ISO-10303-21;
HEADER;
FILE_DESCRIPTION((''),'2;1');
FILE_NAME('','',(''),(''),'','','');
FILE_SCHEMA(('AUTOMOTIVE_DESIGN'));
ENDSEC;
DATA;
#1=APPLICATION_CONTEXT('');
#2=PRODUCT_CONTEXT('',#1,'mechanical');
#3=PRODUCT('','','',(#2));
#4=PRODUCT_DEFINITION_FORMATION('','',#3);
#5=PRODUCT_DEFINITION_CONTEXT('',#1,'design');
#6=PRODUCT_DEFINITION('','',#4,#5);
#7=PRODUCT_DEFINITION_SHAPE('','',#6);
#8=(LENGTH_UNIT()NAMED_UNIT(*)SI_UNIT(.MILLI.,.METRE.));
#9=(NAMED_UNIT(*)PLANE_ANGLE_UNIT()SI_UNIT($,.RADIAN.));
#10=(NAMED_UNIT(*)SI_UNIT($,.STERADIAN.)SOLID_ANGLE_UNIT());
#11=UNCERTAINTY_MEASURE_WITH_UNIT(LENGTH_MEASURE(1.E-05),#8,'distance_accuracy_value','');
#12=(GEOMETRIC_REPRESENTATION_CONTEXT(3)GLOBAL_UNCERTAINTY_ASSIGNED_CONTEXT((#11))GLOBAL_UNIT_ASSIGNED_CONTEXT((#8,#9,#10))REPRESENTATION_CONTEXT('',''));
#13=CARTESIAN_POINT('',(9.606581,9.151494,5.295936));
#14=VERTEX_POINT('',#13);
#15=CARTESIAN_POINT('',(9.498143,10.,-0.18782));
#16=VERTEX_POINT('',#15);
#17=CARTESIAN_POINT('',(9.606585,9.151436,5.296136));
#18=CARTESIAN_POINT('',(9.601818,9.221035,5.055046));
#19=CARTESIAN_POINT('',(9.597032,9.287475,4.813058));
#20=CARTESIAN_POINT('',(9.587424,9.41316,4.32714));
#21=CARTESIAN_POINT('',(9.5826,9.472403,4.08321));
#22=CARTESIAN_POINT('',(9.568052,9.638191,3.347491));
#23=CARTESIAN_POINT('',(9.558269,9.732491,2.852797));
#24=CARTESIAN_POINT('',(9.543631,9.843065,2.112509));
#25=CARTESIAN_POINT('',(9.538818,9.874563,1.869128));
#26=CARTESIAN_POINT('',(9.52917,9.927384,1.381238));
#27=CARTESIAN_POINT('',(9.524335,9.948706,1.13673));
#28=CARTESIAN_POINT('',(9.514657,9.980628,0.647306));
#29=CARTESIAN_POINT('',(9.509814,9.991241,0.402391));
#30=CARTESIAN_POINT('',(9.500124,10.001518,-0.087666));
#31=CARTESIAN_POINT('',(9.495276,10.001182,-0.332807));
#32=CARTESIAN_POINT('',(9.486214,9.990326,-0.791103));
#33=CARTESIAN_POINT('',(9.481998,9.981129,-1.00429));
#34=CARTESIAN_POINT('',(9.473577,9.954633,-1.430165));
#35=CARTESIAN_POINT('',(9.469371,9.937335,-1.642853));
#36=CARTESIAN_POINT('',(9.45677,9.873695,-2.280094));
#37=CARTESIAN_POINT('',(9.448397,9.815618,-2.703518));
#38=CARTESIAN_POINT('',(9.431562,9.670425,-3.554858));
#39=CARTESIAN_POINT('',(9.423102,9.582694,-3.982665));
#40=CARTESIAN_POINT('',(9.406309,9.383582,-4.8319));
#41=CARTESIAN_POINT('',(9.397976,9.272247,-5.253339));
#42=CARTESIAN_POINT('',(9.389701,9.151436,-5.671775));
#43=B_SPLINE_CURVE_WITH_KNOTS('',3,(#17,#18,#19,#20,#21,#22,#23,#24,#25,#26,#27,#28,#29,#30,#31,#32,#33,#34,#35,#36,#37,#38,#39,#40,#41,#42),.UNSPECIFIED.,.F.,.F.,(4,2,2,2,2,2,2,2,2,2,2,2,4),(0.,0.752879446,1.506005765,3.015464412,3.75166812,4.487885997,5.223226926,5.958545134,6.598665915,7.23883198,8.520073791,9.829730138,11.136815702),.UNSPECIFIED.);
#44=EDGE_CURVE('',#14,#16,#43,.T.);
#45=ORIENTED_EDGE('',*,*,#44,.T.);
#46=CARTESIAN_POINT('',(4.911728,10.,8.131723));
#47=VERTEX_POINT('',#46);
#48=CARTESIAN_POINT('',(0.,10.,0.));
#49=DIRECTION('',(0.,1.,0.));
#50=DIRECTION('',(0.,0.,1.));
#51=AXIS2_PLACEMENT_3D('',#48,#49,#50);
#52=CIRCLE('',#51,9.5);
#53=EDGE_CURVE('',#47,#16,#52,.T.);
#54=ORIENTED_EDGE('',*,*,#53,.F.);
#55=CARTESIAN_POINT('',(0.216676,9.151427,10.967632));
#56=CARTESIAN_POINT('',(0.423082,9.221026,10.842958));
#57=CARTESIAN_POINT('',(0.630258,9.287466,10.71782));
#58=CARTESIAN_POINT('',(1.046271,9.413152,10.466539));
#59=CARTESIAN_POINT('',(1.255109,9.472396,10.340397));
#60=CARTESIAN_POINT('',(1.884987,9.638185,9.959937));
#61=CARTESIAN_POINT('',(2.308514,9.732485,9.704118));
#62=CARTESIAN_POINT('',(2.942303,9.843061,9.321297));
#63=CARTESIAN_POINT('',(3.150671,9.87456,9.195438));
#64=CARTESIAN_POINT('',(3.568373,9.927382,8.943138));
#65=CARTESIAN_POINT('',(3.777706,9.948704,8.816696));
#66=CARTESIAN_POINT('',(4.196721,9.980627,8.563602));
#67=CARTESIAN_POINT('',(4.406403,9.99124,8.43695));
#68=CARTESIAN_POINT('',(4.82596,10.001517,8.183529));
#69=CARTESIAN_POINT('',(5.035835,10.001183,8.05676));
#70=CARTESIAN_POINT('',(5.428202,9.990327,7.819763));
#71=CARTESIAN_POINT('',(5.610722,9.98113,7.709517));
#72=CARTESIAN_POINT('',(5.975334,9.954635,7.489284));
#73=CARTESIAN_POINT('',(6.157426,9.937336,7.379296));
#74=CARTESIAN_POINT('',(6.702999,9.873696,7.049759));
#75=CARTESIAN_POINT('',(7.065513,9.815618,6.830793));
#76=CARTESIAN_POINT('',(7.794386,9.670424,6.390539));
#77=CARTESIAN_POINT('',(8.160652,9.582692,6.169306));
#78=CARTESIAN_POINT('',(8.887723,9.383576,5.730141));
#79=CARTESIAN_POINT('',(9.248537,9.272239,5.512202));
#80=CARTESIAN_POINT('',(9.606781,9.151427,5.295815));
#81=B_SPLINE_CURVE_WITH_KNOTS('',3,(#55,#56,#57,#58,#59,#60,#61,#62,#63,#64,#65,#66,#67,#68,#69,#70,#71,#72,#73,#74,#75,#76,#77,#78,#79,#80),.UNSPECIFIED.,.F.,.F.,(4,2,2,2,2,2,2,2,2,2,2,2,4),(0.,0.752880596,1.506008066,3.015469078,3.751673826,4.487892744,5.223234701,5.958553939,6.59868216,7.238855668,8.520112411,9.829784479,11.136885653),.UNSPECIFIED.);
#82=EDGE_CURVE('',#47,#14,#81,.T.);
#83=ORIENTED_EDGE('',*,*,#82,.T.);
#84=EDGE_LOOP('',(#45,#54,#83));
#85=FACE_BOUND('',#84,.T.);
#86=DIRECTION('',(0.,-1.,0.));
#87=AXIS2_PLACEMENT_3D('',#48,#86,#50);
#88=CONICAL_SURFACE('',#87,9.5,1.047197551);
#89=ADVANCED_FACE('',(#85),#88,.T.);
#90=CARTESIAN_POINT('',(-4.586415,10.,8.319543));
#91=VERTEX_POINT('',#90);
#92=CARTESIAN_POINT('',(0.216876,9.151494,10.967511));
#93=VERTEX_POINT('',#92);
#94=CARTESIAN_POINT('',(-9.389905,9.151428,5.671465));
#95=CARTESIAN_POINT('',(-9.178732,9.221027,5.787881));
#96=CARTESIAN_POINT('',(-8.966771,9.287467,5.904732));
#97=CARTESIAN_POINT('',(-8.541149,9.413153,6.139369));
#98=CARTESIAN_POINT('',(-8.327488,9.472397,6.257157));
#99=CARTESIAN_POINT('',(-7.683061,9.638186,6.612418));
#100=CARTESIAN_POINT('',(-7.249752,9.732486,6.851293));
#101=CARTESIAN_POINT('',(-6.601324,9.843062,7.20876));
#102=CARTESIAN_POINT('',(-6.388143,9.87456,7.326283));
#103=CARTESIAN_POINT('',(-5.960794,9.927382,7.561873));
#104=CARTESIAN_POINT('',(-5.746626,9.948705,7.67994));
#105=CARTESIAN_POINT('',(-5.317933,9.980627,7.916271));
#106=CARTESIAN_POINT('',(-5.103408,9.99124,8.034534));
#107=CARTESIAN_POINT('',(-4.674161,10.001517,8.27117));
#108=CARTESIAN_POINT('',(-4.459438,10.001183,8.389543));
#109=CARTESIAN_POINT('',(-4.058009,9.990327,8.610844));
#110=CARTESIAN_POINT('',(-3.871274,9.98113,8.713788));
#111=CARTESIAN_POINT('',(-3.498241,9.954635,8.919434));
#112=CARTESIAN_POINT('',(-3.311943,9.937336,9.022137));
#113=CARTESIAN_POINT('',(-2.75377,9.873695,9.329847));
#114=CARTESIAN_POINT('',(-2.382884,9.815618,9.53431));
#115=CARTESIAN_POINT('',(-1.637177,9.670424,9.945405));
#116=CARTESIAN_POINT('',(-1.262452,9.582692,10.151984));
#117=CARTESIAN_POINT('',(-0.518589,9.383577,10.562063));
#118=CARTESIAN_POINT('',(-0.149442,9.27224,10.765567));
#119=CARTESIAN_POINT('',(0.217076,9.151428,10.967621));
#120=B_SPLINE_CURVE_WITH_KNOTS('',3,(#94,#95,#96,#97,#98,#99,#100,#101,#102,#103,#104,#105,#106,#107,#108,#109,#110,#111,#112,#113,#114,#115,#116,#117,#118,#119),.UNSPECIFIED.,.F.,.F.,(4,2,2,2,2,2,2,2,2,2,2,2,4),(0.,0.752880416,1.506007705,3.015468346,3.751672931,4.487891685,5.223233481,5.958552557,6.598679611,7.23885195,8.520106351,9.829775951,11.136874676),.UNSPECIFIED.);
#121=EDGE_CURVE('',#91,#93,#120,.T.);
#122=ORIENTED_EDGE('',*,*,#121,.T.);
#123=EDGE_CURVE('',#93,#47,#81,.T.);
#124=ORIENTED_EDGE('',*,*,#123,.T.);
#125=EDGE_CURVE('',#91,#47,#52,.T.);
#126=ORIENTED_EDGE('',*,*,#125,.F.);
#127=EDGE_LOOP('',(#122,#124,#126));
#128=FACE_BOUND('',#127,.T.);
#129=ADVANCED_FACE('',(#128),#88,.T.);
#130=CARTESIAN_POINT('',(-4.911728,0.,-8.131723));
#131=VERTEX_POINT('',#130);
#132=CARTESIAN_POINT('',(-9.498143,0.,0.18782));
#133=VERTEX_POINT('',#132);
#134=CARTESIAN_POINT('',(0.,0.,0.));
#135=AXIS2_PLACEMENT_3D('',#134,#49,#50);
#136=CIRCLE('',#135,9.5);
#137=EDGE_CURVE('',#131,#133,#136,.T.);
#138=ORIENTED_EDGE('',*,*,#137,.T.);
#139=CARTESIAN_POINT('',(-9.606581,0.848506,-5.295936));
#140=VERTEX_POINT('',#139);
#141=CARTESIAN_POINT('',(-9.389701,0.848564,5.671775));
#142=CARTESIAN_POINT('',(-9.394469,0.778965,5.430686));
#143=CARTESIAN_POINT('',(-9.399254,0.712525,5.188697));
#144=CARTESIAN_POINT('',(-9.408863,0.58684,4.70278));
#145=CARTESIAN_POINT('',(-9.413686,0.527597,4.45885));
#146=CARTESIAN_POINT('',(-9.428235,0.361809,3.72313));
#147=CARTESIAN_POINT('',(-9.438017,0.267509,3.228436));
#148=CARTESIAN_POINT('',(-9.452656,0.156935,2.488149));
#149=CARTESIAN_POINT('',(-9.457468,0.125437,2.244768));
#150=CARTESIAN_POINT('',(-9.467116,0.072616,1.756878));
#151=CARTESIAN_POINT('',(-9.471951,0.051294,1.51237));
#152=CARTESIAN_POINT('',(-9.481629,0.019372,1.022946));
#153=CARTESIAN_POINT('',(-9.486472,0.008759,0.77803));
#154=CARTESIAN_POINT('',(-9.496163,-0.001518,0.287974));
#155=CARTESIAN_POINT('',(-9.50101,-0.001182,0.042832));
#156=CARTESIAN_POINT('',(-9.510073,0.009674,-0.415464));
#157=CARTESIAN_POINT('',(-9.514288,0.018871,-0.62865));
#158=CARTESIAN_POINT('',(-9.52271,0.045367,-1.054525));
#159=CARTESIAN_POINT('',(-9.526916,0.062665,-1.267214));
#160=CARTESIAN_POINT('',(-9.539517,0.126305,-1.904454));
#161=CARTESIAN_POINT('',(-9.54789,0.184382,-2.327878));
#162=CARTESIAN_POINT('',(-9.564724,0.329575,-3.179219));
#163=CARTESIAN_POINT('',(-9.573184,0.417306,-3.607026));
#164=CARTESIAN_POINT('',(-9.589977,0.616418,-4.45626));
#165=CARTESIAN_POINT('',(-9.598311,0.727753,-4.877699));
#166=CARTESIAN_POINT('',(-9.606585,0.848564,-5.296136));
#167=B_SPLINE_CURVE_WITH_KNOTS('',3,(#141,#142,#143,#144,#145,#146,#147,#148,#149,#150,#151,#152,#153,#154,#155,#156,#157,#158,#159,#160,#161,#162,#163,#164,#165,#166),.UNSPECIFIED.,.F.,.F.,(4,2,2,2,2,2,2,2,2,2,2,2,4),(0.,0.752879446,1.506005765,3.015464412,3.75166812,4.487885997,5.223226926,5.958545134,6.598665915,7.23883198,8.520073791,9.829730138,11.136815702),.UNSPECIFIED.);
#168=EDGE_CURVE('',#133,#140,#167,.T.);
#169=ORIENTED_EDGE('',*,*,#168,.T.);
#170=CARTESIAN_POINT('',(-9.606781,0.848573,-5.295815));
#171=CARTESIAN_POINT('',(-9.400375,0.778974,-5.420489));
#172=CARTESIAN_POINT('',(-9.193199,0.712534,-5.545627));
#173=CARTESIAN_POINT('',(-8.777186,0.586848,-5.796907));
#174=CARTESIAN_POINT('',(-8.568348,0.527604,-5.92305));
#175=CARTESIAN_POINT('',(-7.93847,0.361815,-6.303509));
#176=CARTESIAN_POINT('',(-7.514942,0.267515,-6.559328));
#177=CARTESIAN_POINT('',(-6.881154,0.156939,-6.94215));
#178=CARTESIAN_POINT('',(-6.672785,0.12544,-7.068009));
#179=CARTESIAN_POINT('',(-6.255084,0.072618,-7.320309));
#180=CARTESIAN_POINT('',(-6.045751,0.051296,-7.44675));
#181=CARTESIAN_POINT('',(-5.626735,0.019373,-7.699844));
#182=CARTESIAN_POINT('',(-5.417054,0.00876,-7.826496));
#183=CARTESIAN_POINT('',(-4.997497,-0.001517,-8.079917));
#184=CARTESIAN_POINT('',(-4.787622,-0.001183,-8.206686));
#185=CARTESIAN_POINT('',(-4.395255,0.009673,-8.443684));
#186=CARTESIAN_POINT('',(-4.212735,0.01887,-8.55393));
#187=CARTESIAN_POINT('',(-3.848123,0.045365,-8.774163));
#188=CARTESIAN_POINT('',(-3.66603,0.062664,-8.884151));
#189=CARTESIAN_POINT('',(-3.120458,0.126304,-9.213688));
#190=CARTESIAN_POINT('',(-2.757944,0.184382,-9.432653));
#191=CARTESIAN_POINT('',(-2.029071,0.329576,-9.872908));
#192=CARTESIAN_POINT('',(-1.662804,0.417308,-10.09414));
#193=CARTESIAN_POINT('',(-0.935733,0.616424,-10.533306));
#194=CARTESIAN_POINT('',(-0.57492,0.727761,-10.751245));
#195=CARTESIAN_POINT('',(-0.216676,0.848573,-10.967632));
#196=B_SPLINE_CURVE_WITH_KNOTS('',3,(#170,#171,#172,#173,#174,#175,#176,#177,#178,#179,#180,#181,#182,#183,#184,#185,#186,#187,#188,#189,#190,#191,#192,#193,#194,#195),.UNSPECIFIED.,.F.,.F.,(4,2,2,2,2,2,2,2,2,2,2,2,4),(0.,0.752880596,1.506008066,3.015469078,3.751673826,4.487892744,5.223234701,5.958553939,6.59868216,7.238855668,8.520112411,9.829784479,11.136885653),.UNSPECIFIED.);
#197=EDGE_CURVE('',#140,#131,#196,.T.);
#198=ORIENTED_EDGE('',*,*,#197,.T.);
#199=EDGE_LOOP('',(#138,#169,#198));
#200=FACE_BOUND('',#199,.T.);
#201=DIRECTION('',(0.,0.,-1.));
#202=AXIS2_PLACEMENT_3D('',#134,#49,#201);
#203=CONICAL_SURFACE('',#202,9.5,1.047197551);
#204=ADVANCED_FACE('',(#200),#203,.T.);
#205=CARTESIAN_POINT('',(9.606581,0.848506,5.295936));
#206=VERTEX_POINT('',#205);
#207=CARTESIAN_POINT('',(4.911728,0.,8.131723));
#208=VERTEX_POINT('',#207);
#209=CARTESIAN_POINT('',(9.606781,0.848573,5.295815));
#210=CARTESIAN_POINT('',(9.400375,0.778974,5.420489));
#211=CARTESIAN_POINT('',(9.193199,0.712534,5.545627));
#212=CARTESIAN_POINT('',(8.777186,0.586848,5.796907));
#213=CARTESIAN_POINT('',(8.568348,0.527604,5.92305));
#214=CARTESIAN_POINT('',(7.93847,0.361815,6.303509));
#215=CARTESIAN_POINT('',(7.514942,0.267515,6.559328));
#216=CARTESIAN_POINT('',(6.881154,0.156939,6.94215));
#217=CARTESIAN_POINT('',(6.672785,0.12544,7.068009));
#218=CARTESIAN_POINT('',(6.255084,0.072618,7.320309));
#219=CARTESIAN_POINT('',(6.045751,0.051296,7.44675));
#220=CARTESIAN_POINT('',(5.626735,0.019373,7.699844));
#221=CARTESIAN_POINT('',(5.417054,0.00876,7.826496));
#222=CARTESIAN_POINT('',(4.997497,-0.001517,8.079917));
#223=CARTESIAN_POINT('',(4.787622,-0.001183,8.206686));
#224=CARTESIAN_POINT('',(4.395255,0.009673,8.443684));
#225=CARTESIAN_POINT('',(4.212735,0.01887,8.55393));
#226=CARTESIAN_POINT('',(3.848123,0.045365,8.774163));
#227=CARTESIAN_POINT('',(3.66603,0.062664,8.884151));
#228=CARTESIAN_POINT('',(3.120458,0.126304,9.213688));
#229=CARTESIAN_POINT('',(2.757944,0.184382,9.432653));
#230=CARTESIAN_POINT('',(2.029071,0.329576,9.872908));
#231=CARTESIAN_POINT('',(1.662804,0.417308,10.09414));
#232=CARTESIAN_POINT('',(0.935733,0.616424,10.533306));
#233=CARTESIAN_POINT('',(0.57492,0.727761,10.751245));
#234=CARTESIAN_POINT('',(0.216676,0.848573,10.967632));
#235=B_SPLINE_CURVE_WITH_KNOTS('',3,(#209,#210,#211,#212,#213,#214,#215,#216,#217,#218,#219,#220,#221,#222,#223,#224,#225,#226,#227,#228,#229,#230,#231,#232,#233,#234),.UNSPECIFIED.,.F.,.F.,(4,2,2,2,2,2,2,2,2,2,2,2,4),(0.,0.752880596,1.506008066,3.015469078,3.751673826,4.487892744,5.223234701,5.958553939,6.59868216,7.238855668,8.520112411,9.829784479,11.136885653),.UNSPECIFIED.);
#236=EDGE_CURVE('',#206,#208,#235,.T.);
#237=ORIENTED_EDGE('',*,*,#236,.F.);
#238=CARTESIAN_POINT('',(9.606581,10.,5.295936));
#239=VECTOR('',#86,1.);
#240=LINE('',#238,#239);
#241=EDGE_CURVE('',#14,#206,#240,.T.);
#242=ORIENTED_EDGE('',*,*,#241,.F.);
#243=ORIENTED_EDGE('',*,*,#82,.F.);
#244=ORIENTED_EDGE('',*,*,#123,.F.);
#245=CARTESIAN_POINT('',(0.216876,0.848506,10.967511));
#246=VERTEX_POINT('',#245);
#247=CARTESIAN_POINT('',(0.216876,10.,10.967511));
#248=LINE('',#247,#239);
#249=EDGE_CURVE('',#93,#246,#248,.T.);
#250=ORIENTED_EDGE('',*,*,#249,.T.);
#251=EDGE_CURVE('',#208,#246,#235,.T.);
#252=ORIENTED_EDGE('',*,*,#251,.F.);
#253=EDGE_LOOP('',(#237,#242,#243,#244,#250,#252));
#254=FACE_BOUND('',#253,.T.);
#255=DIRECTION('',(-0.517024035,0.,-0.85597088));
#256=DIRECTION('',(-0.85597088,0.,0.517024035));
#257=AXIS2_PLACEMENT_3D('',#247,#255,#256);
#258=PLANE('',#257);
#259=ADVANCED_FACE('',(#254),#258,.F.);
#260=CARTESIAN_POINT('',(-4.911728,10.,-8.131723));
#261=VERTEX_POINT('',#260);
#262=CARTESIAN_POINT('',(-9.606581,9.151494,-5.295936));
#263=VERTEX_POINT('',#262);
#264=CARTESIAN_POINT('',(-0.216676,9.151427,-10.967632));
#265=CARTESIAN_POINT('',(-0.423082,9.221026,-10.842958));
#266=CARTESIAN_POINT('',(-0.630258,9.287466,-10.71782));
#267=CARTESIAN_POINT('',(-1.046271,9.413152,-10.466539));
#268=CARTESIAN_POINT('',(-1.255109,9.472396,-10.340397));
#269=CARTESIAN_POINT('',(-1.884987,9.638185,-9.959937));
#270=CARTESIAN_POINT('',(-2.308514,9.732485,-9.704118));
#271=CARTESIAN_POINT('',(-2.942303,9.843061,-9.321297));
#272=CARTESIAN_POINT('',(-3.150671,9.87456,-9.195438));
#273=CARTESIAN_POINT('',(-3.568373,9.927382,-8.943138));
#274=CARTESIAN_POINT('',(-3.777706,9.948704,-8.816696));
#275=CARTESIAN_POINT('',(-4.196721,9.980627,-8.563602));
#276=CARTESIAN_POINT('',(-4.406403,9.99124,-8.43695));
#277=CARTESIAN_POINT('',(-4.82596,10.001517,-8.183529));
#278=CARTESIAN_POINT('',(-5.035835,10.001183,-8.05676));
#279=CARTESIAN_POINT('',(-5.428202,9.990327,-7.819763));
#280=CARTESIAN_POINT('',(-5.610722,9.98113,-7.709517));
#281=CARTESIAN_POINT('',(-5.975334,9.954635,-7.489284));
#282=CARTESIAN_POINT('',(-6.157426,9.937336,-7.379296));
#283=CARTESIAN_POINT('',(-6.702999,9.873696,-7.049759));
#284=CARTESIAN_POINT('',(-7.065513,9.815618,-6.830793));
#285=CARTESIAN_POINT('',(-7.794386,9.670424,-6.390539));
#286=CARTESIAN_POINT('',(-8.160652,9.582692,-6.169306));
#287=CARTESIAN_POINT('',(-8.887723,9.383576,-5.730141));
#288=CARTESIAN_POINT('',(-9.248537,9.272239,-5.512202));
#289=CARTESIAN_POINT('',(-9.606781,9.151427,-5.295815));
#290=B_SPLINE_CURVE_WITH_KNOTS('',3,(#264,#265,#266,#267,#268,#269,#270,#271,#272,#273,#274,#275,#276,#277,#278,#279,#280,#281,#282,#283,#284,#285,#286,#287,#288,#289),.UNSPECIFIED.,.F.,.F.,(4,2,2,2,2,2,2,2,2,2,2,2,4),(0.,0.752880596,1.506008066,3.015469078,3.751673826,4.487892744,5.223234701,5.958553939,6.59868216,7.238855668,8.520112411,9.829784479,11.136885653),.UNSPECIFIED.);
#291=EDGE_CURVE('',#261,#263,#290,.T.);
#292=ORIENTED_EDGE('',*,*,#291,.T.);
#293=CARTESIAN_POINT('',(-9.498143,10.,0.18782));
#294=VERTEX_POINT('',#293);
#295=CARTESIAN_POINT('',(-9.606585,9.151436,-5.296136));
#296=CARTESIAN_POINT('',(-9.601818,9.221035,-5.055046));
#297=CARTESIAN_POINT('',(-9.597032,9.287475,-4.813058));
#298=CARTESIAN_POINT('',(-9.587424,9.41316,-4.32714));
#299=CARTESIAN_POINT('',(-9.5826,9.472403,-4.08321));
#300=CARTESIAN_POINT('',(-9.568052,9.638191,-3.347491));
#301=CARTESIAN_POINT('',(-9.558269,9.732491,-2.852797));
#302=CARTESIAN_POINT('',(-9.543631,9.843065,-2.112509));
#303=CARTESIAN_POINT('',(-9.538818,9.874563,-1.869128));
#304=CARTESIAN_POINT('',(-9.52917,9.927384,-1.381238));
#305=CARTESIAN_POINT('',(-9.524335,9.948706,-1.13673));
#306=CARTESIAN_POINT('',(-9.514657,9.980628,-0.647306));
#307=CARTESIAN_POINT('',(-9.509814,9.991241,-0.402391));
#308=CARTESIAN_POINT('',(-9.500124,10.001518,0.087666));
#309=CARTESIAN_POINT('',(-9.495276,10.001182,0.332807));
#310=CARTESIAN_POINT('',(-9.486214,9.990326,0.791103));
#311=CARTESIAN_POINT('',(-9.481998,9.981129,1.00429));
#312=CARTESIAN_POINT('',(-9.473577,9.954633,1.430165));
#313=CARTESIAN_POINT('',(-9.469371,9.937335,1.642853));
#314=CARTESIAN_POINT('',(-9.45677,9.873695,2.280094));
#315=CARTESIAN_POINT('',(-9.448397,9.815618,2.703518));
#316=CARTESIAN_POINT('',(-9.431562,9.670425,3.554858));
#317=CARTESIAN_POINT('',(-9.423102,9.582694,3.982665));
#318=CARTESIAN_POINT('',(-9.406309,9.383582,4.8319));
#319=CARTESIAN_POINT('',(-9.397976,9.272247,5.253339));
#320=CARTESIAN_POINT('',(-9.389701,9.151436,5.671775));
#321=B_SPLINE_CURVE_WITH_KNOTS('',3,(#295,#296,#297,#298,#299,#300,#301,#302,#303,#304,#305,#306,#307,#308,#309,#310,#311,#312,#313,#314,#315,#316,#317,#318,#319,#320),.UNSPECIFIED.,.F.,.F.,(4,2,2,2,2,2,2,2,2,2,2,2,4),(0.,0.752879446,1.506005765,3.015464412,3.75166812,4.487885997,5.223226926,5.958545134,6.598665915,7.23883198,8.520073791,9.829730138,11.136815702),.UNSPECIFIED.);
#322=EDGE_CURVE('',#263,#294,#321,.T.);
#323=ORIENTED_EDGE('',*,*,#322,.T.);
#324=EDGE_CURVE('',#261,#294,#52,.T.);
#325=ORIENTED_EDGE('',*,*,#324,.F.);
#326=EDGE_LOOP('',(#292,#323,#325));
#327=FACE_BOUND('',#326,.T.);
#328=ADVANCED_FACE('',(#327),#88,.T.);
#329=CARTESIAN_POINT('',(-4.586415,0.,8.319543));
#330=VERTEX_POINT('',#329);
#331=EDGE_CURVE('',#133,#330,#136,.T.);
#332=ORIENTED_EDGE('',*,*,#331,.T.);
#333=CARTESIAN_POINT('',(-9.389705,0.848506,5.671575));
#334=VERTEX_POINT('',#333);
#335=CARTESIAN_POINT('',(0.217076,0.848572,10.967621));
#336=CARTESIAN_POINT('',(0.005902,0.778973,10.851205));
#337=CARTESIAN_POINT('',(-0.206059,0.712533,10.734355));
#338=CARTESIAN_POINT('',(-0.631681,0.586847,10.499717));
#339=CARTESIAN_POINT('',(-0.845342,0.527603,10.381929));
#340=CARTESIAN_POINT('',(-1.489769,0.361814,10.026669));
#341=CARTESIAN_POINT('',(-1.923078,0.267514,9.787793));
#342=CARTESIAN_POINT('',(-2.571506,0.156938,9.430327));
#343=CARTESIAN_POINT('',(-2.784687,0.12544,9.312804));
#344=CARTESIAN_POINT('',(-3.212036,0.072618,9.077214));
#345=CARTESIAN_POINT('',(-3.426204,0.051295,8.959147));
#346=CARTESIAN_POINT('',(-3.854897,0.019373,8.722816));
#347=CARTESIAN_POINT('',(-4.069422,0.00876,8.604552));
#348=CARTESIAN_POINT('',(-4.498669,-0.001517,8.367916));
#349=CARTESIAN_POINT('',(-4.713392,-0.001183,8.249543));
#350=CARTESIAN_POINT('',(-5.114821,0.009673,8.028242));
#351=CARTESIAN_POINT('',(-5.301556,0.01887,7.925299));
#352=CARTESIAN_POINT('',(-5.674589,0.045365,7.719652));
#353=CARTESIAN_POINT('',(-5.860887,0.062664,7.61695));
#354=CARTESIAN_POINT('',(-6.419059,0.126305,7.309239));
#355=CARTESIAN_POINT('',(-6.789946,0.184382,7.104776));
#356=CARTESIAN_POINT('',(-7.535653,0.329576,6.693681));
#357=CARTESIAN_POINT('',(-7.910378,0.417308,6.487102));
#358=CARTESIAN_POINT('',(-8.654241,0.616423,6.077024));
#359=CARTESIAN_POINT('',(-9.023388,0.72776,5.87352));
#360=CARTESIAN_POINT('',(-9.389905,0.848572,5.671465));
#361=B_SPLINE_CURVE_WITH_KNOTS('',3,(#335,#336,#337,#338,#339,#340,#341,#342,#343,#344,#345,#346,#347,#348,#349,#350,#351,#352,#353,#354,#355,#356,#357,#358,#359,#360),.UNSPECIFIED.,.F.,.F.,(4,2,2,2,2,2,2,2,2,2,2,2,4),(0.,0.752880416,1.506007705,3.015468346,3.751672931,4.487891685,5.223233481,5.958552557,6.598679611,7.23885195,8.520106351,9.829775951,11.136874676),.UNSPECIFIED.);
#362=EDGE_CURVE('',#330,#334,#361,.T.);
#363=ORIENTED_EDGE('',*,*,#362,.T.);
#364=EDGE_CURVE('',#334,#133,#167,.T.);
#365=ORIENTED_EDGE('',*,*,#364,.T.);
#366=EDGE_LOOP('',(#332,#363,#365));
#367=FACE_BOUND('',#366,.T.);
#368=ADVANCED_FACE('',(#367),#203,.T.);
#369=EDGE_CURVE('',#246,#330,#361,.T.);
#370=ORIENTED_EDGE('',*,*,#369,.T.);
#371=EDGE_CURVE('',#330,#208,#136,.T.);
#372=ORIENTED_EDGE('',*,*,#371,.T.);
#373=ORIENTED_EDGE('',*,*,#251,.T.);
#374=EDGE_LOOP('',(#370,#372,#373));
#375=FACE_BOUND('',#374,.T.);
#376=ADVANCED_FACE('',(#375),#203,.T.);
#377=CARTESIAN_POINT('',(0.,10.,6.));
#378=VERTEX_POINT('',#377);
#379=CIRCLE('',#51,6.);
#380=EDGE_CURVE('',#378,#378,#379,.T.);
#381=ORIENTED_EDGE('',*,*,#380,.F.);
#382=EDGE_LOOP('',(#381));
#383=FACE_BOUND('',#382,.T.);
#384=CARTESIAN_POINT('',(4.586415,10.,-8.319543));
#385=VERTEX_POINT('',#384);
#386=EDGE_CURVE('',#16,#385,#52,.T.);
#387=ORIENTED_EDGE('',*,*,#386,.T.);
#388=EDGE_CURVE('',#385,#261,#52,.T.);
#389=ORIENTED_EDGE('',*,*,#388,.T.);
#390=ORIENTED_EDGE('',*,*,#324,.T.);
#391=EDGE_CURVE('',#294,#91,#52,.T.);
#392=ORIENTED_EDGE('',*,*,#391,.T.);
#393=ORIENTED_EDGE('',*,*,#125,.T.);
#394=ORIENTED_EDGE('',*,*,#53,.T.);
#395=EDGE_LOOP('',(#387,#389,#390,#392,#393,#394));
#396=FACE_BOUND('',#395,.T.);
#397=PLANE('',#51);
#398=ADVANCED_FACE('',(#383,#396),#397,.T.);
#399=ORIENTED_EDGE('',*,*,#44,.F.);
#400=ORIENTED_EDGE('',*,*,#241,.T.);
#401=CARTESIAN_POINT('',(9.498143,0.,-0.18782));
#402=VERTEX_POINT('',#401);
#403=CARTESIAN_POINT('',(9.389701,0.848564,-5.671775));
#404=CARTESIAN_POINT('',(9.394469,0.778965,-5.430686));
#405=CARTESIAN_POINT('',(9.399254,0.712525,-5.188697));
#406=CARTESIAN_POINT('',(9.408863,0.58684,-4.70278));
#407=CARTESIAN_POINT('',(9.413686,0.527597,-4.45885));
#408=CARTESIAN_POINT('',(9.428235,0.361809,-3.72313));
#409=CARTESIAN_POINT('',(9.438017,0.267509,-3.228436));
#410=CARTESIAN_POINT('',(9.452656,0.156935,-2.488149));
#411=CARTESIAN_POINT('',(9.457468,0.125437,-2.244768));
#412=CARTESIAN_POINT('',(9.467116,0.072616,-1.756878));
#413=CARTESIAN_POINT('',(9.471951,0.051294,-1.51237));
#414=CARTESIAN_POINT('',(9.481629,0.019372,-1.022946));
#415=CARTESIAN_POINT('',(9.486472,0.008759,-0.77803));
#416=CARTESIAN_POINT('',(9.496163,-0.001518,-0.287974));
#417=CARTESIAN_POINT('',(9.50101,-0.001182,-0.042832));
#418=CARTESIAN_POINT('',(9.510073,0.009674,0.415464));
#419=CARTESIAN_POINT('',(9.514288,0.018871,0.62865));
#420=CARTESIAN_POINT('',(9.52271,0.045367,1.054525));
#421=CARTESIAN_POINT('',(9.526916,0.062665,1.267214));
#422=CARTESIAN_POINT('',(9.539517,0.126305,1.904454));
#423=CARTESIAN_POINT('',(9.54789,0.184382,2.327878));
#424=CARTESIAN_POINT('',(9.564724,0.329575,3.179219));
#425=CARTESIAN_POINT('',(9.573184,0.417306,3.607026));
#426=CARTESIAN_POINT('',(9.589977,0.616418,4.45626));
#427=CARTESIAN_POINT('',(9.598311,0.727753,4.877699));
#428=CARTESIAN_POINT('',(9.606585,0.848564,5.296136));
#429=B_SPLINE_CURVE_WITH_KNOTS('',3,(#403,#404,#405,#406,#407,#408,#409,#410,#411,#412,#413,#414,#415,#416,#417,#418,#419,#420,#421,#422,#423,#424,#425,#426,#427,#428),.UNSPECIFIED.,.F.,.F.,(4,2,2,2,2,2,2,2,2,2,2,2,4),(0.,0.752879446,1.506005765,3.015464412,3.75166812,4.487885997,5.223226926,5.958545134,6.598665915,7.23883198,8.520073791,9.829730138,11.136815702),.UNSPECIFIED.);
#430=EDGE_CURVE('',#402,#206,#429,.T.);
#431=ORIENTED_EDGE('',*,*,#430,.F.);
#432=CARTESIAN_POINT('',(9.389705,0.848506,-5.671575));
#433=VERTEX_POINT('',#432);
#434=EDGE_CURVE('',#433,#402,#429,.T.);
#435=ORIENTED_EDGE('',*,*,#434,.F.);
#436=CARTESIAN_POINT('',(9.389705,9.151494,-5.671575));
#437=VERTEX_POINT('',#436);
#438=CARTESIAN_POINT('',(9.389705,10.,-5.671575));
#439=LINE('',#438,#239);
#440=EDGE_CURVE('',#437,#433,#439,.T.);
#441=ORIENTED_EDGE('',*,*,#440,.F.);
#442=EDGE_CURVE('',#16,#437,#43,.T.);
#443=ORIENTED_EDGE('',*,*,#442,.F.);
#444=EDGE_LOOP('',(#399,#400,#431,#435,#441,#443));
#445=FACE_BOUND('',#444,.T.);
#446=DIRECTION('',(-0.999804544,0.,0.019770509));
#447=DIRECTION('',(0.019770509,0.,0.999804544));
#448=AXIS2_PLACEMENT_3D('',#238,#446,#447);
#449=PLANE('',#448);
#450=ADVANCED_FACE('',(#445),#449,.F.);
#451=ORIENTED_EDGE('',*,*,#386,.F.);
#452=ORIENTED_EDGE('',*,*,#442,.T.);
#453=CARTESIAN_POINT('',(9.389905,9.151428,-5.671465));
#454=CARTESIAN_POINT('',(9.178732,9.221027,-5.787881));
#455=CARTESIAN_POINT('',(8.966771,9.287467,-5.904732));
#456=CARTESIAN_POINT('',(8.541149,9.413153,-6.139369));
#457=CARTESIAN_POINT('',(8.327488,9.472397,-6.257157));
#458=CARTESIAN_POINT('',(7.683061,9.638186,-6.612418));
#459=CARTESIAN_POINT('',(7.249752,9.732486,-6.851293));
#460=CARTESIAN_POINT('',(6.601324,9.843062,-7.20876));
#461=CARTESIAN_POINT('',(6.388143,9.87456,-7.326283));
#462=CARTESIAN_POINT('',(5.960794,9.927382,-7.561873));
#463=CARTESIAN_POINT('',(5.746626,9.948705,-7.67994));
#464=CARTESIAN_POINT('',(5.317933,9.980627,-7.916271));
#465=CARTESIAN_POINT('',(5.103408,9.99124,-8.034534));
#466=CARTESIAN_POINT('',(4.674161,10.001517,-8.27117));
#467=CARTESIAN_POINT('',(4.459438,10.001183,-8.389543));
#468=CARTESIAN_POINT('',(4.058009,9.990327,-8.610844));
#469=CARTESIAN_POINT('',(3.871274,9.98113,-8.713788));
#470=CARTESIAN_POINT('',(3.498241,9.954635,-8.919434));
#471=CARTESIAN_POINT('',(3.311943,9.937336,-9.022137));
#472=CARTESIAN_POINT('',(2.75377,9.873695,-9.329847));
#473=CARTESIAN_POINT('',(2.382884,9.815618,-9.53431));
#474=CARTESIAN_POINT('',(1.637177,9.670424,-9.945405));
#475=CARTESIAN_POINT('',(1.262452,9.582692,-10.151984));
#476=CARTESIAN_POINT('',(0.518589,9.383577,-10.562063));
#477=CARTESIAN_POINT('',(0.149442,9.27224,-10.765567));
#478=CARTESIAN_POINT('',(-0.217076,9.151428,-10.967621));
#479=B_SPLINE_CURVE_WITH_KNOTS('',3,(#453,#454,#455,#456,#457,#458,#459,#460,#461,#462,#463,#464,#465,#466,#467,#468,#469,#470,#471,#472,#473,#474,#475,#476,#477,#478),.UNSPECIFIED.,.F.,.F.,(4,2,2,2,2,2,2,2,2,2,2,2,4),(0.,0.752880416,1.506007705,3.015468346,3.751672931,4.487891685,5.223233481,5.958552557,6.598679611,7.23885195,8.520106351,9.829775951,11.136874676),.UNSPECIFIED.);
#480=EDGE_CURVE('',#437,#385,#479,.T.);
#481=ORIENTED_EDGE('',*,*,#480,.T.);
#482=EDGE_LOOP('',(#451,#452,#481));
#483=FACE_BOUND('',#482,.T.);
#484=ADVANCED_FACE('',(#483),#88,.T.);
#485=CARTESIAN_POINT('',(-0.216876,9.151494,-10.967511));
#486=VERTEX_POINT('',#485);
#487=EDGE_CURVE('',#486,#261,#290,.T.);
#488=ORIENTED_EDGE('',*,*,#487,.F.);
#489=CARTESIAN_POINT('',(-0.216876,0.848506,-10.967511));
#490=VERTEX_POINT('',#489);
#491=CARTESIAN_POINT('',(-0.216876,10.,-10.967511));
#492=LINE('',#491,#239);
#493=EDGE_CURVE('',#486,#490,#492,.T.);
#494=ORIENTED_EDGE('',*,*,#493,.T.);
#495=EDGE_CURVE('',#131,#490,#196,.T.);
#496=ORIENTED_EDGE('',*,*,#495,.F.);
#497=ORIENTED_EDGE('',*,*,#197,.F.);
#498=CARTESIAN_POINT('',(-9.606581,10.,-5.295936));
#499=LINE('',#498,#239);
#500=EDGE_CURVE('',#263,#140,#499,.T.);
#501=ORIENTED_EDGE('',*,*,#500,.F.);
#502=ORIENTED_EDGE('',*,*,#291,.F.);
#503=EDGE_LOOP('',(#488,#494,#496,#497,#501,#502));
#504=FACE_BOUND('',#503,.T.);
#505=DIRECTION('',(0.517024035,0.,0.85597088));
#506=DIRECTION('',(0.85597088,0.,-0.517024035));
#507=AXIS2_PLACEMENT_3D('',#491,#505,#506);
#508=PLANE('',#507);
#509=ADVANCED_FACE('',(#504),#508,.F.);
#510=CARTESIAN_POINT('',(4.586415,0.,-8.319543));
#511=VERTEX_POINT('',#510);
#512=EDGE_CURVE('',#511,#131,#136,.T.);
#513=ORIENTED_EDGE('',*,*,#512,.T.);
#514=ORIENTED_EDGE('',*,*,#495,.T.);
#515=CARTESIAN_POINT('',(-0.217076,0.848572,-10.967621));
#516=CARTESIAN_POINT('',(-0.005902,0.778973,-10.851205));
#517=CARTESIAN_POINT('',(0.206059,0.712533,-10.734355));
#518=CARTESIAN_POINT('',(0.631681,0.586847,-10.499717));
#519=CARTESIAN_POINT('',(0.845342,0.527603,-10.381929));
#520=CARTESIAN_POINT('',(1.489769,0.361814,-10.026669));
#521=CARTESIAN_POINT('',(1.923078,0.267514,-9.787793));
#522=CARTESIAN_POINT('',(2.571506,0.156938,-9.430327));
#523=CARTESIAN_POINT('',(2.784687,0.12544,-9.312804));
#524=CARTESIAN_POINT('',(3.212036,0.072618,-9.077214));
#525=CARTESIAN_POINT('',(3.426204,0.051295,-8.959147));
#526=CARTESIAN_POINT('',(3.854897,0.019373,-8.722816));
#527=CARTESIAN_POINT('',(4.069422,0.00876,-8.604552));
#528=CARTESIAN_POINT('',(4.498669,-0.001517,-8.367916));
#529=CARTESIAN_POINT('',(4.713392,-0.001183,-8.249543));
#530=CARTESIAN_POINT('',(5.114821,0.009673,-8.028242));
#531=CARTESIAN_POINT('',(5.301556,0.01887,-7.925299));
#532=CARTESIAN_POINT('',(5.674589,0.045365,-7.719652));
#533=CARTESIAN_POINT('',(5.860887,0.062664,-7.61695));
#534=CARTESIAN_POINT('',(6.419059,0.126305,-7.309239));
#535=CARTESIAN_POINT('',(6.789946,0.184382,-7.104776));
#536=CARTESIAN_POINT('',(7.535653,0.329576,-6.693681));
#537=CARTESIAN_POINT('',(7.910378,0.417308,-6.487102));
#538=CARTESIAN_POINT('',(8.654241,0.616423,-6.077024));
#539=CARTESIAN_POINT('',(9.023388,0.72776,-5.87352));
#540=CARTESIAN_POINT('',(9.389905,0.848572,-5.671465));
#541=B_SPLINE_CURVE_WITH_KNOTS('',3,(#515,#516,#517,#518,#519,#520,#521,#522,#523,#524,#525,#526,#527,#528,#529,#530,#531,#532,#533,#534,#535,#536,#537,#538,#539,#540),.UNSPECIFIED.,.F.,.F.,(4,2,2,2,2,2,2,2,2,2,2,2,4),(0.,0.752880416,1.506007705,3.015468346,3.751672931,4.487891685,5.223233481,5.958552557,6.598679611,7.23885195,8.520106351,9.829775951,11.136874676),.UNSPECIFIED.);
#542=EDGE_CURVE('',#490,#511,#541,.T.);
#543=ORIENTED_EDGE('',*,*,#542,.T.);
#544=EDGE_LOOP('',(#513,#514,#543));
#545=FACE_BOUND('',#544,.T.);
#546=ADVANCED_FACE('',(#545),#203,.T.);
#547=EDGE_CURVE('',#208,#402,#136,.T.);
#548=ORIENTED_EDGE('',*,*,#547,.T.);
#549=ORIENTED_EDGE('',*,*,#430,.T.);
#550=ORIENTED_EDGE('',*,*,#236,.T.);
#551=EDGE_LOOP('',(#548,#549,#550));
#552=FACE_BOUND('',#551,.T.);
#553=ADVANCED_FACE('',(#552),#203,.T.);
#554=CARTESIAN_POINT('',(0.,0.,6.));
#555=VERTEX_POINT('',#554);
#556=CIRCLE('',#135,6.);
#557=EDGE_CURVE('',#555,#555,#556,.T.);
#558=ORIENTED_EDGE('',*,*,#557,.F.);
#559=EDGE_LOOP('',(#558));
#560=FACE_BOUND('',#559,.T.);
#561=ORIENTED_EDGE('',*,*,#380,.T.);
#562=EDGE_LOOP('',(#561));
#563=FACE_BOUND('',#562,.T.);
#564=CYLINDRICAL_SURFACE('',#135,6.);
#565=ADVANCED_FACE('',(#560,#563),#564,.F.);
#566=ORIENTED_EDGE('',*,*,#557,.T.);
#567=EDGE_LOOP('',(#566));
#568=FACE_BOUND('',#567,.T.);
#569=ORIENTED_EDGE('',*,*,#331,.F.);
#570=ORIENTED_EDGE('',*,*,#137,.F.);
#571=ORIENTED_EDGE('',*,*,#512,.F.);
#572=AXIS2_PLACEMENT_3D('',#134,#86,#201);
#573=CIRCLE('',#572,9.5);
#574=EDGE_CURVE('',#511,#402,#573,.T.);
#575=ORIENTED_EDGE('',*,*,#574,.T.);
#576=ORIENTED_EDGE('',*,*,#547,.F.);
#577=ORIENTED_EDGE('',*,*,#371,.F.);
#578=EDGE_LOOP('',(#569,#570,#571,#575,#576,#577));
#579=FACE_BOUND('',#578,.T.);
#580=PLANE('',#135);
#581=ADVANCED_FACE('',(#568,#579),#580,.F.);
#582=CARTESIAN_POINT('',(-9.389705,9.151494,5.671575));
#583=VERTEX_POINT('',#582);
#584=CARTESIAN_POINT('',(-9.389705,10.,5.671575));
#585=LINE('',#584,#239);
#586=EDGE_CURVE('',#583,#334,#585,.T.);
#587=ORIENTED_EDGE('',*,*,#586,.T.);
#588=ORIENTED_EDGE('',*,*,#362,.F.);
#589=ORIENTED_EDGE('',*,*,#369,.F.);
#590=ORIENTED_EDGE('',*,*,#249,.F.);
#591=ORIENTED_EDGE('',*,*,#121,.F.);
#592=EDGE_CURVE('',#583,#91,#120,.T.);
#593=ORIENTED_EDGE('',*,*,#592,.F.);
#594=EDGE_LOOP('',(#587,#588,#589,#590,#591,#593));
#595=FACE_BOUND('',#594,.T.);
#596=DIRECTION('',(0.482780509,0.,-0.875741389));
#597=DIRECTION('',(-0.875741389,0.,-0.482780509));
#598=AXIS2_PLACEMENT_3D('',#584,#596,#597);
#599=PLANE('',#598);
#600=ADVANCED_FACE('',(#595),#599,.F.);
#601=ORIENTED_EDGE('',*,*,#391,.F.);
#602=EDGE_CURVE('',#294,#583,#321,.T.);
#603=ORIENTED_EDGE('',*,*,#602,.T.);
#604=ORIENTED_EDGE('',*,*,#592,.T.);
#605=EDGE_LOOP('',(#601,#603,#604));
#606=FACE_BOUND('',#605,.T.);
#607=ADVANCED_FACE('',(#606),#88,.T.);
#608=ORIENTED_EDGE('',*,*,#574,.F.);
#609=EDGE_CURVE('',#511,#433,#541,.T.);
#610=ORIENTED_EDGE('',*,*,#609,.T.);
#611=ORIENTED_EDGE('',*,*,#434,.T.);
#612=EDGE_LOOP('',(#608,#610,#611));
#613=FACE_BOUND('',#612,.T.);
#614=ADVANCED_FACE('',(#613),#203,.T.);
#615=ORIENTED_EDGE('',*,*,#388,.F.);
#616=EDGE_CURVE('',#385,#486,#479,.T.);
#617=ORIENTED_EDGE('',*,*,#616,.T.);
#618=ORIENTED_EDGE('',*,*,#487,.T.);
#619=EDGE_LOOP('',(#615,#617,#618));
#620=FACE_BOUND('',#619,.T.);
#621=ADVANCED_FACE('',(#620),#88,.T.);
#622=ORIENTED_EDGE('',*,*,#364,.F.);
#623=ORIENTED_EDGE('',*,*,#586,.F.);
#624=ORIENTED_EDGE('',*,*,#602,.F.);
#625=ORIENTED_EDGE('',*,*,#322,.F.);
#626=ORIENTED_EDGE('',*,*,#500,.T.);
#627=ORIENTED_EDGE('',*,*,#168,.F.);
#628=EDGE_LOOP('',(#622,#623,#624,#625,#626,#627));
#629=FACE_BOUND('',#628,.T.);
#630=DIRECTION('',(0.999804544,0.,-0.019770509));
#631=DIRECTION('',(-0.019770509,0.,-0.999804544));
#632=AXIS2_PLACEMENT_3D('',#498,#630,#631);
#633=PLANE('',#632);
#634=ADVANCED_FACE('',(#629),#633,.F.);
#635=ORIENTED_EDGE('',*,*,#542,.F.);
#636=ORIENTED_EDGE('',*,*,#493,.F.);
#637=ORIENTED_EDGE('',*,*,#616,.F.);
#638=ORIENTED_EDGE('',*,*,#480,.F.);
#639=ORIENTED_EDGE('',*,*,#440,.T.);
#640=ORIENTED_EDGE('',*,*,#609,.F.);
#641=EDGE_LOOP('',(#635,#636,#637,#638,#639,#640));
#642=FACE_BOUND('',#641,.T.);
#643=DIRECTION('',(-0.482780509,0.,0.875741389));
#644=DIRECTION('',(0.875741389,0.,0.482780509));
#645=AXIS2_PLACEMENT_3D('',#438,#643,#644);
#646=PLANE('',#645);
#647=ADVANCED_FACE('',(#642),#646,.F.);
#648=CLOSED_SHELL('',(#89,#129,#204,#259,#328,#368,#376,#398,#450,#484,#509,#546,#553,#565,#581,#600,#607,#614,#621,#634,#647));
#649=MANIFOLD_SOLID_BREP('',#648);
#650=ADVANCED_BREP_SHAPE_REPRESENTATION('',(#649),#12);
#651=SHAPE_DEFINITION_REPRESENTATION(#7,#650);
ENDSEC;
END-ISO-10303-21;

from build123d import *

# Parameters (mm, degrees)
BOSS_EXTRUDE1_DEPTH = 10
SKETCH2_R           = 6
CUT_EXTRUDE1_DEPTH  = 10
SKETCH3_OUTSIDE_W   = 68.948
SKETCH3_OUTSIDE_H   = 71.67
SKETCH3_OUTSIDE_R   = 9.5
CUT_EXTRUDE4_DEPTH  = 12
CUT_EXTRUDE4_DRAFT  = -60
SKETCH4_OUTSIDE_W   = 68.948
SKETCH4_OUTSIDE_H   = 71.67
SKETCH4_OUTSIDE_R   = 9.5
CUT_EXTRUDE5_DEPTH  = 12
CUT_EXTRUDE5_DRAFT  = -60


with BuildPart() as part:
    # Sketch1 → Boss-Extrude1 (new body)
    with BuildSketch(Plane(origin=(0, 0, 0), x_dir=(1, 0, 0), z_dir=(0, 1, 0))):
        Polygon((9.606581004, -5.295935682), (9.389705339, 5.671575352), (-0.216875665, 10.967511034), (-9.606581004, 5.295935682), (-9.389705339, -5.671575352), (0.216875665, -10.967511034), align=None)
    extrude(amount=BOSS_EXTRUDE1_DEPTH)

    # Sketch2 → Cut-Extrude1 (cut)
    with BuildSketch(Plane(origin=(0, 10, 0), x_dir=(1, 0, 0), z_dir=(0, 1, 0))):
        with Locations(Location((0, 0, 0), (0, 0, 270))):
            Circle(SKETCH2_R)
    extrude(amount=-CUT_EXTRUDE1_DEPTH, mode=Mode.SUBTRACT)


with BuildPart() as cut_extrude4_tool:
    # Sketch3 outside → Cut-Extrude4 (with draft: the straight prism first)
    with BuildSketch(Plane(origin=(0, 10, 0), x_dir=(1, 0, 0), z_dir=(0, 1, 0))):
        Rectangle(SKETCH3_OUTSIDE_W, SKETCH3_OUTSIDE_H)
        Circle(SKETCH3_OUTSIDE_R, mode=Mode.SUBTRACT)
    extrude(amount=-CUT_EXTRUDE4_DEPTH)
    # Cut-Extrude4: the draft: its side faces are tilted about the plane it starts from
    cut_extrude4_sides = [cut_extrude4_tool.faces().sort_by_distance(p)[0] for p in [
        (0, 4, 35.835),
        (34.474, 4, 0),
        (0, 4, -35.835),
        (-34.474, 4, 0),
        (-9.5, 4, 0),
    ]]
    draft(cut_extrude4_sides, Plane(origin=(0, 10, 0), x_dir=(1, 0, 0), z_dir=(0, 1, 0)), CUT_EXTRUDE4_DRAFT)


with BuildPart() as part_1:
    add(part.part)

    # Cut-Extrude4: cut by cut_extrude4_tool
    add(cut_extrude4_tool.part, mode=Mode.SUBTRACT)


with BuildPart() as cut_extrude5_tool:
    # Sketch4 outside → Cut-Extrude5 (with draft: the straight prism first)
    with BuildSketch(Plane.XZ):
        Rectangle(SKETCH4_OUTSIDE_W, SKETCH4_OUTSIDE_H)
        Circle(SKETCH4_OUTSIDE_R, mode=Mode.SUBTRACT)
    extrude(amount=-CUT_EXTRUDE5_DEPTH)
    # Cut-Extrude5: the draft: its side faces are tilted about the plane it starts from
    cut_extrude5_sides = [cut_extrude5_tool.faces().sort_by_distance(p)[0] for p in [
        (0, 6, -35.835),
        (34.474, 6, 0),
        (0, 6, 35.835),
        (-34.474, 6, 0),
        (-9.5, 6, 0),
    ]]
    draft(cut_extrude5_sides, Plane.XZ, CUT_EXTRUDE5_DRAFT)


with BuildPart() as part_2:
    add(part_1.part)

    # Cut-Extrude5: cut by cut_extrude5_tool
    add(cut_extrude5_tool.part, mode=Mode.SUBTRACT)


solid = part_2.part
